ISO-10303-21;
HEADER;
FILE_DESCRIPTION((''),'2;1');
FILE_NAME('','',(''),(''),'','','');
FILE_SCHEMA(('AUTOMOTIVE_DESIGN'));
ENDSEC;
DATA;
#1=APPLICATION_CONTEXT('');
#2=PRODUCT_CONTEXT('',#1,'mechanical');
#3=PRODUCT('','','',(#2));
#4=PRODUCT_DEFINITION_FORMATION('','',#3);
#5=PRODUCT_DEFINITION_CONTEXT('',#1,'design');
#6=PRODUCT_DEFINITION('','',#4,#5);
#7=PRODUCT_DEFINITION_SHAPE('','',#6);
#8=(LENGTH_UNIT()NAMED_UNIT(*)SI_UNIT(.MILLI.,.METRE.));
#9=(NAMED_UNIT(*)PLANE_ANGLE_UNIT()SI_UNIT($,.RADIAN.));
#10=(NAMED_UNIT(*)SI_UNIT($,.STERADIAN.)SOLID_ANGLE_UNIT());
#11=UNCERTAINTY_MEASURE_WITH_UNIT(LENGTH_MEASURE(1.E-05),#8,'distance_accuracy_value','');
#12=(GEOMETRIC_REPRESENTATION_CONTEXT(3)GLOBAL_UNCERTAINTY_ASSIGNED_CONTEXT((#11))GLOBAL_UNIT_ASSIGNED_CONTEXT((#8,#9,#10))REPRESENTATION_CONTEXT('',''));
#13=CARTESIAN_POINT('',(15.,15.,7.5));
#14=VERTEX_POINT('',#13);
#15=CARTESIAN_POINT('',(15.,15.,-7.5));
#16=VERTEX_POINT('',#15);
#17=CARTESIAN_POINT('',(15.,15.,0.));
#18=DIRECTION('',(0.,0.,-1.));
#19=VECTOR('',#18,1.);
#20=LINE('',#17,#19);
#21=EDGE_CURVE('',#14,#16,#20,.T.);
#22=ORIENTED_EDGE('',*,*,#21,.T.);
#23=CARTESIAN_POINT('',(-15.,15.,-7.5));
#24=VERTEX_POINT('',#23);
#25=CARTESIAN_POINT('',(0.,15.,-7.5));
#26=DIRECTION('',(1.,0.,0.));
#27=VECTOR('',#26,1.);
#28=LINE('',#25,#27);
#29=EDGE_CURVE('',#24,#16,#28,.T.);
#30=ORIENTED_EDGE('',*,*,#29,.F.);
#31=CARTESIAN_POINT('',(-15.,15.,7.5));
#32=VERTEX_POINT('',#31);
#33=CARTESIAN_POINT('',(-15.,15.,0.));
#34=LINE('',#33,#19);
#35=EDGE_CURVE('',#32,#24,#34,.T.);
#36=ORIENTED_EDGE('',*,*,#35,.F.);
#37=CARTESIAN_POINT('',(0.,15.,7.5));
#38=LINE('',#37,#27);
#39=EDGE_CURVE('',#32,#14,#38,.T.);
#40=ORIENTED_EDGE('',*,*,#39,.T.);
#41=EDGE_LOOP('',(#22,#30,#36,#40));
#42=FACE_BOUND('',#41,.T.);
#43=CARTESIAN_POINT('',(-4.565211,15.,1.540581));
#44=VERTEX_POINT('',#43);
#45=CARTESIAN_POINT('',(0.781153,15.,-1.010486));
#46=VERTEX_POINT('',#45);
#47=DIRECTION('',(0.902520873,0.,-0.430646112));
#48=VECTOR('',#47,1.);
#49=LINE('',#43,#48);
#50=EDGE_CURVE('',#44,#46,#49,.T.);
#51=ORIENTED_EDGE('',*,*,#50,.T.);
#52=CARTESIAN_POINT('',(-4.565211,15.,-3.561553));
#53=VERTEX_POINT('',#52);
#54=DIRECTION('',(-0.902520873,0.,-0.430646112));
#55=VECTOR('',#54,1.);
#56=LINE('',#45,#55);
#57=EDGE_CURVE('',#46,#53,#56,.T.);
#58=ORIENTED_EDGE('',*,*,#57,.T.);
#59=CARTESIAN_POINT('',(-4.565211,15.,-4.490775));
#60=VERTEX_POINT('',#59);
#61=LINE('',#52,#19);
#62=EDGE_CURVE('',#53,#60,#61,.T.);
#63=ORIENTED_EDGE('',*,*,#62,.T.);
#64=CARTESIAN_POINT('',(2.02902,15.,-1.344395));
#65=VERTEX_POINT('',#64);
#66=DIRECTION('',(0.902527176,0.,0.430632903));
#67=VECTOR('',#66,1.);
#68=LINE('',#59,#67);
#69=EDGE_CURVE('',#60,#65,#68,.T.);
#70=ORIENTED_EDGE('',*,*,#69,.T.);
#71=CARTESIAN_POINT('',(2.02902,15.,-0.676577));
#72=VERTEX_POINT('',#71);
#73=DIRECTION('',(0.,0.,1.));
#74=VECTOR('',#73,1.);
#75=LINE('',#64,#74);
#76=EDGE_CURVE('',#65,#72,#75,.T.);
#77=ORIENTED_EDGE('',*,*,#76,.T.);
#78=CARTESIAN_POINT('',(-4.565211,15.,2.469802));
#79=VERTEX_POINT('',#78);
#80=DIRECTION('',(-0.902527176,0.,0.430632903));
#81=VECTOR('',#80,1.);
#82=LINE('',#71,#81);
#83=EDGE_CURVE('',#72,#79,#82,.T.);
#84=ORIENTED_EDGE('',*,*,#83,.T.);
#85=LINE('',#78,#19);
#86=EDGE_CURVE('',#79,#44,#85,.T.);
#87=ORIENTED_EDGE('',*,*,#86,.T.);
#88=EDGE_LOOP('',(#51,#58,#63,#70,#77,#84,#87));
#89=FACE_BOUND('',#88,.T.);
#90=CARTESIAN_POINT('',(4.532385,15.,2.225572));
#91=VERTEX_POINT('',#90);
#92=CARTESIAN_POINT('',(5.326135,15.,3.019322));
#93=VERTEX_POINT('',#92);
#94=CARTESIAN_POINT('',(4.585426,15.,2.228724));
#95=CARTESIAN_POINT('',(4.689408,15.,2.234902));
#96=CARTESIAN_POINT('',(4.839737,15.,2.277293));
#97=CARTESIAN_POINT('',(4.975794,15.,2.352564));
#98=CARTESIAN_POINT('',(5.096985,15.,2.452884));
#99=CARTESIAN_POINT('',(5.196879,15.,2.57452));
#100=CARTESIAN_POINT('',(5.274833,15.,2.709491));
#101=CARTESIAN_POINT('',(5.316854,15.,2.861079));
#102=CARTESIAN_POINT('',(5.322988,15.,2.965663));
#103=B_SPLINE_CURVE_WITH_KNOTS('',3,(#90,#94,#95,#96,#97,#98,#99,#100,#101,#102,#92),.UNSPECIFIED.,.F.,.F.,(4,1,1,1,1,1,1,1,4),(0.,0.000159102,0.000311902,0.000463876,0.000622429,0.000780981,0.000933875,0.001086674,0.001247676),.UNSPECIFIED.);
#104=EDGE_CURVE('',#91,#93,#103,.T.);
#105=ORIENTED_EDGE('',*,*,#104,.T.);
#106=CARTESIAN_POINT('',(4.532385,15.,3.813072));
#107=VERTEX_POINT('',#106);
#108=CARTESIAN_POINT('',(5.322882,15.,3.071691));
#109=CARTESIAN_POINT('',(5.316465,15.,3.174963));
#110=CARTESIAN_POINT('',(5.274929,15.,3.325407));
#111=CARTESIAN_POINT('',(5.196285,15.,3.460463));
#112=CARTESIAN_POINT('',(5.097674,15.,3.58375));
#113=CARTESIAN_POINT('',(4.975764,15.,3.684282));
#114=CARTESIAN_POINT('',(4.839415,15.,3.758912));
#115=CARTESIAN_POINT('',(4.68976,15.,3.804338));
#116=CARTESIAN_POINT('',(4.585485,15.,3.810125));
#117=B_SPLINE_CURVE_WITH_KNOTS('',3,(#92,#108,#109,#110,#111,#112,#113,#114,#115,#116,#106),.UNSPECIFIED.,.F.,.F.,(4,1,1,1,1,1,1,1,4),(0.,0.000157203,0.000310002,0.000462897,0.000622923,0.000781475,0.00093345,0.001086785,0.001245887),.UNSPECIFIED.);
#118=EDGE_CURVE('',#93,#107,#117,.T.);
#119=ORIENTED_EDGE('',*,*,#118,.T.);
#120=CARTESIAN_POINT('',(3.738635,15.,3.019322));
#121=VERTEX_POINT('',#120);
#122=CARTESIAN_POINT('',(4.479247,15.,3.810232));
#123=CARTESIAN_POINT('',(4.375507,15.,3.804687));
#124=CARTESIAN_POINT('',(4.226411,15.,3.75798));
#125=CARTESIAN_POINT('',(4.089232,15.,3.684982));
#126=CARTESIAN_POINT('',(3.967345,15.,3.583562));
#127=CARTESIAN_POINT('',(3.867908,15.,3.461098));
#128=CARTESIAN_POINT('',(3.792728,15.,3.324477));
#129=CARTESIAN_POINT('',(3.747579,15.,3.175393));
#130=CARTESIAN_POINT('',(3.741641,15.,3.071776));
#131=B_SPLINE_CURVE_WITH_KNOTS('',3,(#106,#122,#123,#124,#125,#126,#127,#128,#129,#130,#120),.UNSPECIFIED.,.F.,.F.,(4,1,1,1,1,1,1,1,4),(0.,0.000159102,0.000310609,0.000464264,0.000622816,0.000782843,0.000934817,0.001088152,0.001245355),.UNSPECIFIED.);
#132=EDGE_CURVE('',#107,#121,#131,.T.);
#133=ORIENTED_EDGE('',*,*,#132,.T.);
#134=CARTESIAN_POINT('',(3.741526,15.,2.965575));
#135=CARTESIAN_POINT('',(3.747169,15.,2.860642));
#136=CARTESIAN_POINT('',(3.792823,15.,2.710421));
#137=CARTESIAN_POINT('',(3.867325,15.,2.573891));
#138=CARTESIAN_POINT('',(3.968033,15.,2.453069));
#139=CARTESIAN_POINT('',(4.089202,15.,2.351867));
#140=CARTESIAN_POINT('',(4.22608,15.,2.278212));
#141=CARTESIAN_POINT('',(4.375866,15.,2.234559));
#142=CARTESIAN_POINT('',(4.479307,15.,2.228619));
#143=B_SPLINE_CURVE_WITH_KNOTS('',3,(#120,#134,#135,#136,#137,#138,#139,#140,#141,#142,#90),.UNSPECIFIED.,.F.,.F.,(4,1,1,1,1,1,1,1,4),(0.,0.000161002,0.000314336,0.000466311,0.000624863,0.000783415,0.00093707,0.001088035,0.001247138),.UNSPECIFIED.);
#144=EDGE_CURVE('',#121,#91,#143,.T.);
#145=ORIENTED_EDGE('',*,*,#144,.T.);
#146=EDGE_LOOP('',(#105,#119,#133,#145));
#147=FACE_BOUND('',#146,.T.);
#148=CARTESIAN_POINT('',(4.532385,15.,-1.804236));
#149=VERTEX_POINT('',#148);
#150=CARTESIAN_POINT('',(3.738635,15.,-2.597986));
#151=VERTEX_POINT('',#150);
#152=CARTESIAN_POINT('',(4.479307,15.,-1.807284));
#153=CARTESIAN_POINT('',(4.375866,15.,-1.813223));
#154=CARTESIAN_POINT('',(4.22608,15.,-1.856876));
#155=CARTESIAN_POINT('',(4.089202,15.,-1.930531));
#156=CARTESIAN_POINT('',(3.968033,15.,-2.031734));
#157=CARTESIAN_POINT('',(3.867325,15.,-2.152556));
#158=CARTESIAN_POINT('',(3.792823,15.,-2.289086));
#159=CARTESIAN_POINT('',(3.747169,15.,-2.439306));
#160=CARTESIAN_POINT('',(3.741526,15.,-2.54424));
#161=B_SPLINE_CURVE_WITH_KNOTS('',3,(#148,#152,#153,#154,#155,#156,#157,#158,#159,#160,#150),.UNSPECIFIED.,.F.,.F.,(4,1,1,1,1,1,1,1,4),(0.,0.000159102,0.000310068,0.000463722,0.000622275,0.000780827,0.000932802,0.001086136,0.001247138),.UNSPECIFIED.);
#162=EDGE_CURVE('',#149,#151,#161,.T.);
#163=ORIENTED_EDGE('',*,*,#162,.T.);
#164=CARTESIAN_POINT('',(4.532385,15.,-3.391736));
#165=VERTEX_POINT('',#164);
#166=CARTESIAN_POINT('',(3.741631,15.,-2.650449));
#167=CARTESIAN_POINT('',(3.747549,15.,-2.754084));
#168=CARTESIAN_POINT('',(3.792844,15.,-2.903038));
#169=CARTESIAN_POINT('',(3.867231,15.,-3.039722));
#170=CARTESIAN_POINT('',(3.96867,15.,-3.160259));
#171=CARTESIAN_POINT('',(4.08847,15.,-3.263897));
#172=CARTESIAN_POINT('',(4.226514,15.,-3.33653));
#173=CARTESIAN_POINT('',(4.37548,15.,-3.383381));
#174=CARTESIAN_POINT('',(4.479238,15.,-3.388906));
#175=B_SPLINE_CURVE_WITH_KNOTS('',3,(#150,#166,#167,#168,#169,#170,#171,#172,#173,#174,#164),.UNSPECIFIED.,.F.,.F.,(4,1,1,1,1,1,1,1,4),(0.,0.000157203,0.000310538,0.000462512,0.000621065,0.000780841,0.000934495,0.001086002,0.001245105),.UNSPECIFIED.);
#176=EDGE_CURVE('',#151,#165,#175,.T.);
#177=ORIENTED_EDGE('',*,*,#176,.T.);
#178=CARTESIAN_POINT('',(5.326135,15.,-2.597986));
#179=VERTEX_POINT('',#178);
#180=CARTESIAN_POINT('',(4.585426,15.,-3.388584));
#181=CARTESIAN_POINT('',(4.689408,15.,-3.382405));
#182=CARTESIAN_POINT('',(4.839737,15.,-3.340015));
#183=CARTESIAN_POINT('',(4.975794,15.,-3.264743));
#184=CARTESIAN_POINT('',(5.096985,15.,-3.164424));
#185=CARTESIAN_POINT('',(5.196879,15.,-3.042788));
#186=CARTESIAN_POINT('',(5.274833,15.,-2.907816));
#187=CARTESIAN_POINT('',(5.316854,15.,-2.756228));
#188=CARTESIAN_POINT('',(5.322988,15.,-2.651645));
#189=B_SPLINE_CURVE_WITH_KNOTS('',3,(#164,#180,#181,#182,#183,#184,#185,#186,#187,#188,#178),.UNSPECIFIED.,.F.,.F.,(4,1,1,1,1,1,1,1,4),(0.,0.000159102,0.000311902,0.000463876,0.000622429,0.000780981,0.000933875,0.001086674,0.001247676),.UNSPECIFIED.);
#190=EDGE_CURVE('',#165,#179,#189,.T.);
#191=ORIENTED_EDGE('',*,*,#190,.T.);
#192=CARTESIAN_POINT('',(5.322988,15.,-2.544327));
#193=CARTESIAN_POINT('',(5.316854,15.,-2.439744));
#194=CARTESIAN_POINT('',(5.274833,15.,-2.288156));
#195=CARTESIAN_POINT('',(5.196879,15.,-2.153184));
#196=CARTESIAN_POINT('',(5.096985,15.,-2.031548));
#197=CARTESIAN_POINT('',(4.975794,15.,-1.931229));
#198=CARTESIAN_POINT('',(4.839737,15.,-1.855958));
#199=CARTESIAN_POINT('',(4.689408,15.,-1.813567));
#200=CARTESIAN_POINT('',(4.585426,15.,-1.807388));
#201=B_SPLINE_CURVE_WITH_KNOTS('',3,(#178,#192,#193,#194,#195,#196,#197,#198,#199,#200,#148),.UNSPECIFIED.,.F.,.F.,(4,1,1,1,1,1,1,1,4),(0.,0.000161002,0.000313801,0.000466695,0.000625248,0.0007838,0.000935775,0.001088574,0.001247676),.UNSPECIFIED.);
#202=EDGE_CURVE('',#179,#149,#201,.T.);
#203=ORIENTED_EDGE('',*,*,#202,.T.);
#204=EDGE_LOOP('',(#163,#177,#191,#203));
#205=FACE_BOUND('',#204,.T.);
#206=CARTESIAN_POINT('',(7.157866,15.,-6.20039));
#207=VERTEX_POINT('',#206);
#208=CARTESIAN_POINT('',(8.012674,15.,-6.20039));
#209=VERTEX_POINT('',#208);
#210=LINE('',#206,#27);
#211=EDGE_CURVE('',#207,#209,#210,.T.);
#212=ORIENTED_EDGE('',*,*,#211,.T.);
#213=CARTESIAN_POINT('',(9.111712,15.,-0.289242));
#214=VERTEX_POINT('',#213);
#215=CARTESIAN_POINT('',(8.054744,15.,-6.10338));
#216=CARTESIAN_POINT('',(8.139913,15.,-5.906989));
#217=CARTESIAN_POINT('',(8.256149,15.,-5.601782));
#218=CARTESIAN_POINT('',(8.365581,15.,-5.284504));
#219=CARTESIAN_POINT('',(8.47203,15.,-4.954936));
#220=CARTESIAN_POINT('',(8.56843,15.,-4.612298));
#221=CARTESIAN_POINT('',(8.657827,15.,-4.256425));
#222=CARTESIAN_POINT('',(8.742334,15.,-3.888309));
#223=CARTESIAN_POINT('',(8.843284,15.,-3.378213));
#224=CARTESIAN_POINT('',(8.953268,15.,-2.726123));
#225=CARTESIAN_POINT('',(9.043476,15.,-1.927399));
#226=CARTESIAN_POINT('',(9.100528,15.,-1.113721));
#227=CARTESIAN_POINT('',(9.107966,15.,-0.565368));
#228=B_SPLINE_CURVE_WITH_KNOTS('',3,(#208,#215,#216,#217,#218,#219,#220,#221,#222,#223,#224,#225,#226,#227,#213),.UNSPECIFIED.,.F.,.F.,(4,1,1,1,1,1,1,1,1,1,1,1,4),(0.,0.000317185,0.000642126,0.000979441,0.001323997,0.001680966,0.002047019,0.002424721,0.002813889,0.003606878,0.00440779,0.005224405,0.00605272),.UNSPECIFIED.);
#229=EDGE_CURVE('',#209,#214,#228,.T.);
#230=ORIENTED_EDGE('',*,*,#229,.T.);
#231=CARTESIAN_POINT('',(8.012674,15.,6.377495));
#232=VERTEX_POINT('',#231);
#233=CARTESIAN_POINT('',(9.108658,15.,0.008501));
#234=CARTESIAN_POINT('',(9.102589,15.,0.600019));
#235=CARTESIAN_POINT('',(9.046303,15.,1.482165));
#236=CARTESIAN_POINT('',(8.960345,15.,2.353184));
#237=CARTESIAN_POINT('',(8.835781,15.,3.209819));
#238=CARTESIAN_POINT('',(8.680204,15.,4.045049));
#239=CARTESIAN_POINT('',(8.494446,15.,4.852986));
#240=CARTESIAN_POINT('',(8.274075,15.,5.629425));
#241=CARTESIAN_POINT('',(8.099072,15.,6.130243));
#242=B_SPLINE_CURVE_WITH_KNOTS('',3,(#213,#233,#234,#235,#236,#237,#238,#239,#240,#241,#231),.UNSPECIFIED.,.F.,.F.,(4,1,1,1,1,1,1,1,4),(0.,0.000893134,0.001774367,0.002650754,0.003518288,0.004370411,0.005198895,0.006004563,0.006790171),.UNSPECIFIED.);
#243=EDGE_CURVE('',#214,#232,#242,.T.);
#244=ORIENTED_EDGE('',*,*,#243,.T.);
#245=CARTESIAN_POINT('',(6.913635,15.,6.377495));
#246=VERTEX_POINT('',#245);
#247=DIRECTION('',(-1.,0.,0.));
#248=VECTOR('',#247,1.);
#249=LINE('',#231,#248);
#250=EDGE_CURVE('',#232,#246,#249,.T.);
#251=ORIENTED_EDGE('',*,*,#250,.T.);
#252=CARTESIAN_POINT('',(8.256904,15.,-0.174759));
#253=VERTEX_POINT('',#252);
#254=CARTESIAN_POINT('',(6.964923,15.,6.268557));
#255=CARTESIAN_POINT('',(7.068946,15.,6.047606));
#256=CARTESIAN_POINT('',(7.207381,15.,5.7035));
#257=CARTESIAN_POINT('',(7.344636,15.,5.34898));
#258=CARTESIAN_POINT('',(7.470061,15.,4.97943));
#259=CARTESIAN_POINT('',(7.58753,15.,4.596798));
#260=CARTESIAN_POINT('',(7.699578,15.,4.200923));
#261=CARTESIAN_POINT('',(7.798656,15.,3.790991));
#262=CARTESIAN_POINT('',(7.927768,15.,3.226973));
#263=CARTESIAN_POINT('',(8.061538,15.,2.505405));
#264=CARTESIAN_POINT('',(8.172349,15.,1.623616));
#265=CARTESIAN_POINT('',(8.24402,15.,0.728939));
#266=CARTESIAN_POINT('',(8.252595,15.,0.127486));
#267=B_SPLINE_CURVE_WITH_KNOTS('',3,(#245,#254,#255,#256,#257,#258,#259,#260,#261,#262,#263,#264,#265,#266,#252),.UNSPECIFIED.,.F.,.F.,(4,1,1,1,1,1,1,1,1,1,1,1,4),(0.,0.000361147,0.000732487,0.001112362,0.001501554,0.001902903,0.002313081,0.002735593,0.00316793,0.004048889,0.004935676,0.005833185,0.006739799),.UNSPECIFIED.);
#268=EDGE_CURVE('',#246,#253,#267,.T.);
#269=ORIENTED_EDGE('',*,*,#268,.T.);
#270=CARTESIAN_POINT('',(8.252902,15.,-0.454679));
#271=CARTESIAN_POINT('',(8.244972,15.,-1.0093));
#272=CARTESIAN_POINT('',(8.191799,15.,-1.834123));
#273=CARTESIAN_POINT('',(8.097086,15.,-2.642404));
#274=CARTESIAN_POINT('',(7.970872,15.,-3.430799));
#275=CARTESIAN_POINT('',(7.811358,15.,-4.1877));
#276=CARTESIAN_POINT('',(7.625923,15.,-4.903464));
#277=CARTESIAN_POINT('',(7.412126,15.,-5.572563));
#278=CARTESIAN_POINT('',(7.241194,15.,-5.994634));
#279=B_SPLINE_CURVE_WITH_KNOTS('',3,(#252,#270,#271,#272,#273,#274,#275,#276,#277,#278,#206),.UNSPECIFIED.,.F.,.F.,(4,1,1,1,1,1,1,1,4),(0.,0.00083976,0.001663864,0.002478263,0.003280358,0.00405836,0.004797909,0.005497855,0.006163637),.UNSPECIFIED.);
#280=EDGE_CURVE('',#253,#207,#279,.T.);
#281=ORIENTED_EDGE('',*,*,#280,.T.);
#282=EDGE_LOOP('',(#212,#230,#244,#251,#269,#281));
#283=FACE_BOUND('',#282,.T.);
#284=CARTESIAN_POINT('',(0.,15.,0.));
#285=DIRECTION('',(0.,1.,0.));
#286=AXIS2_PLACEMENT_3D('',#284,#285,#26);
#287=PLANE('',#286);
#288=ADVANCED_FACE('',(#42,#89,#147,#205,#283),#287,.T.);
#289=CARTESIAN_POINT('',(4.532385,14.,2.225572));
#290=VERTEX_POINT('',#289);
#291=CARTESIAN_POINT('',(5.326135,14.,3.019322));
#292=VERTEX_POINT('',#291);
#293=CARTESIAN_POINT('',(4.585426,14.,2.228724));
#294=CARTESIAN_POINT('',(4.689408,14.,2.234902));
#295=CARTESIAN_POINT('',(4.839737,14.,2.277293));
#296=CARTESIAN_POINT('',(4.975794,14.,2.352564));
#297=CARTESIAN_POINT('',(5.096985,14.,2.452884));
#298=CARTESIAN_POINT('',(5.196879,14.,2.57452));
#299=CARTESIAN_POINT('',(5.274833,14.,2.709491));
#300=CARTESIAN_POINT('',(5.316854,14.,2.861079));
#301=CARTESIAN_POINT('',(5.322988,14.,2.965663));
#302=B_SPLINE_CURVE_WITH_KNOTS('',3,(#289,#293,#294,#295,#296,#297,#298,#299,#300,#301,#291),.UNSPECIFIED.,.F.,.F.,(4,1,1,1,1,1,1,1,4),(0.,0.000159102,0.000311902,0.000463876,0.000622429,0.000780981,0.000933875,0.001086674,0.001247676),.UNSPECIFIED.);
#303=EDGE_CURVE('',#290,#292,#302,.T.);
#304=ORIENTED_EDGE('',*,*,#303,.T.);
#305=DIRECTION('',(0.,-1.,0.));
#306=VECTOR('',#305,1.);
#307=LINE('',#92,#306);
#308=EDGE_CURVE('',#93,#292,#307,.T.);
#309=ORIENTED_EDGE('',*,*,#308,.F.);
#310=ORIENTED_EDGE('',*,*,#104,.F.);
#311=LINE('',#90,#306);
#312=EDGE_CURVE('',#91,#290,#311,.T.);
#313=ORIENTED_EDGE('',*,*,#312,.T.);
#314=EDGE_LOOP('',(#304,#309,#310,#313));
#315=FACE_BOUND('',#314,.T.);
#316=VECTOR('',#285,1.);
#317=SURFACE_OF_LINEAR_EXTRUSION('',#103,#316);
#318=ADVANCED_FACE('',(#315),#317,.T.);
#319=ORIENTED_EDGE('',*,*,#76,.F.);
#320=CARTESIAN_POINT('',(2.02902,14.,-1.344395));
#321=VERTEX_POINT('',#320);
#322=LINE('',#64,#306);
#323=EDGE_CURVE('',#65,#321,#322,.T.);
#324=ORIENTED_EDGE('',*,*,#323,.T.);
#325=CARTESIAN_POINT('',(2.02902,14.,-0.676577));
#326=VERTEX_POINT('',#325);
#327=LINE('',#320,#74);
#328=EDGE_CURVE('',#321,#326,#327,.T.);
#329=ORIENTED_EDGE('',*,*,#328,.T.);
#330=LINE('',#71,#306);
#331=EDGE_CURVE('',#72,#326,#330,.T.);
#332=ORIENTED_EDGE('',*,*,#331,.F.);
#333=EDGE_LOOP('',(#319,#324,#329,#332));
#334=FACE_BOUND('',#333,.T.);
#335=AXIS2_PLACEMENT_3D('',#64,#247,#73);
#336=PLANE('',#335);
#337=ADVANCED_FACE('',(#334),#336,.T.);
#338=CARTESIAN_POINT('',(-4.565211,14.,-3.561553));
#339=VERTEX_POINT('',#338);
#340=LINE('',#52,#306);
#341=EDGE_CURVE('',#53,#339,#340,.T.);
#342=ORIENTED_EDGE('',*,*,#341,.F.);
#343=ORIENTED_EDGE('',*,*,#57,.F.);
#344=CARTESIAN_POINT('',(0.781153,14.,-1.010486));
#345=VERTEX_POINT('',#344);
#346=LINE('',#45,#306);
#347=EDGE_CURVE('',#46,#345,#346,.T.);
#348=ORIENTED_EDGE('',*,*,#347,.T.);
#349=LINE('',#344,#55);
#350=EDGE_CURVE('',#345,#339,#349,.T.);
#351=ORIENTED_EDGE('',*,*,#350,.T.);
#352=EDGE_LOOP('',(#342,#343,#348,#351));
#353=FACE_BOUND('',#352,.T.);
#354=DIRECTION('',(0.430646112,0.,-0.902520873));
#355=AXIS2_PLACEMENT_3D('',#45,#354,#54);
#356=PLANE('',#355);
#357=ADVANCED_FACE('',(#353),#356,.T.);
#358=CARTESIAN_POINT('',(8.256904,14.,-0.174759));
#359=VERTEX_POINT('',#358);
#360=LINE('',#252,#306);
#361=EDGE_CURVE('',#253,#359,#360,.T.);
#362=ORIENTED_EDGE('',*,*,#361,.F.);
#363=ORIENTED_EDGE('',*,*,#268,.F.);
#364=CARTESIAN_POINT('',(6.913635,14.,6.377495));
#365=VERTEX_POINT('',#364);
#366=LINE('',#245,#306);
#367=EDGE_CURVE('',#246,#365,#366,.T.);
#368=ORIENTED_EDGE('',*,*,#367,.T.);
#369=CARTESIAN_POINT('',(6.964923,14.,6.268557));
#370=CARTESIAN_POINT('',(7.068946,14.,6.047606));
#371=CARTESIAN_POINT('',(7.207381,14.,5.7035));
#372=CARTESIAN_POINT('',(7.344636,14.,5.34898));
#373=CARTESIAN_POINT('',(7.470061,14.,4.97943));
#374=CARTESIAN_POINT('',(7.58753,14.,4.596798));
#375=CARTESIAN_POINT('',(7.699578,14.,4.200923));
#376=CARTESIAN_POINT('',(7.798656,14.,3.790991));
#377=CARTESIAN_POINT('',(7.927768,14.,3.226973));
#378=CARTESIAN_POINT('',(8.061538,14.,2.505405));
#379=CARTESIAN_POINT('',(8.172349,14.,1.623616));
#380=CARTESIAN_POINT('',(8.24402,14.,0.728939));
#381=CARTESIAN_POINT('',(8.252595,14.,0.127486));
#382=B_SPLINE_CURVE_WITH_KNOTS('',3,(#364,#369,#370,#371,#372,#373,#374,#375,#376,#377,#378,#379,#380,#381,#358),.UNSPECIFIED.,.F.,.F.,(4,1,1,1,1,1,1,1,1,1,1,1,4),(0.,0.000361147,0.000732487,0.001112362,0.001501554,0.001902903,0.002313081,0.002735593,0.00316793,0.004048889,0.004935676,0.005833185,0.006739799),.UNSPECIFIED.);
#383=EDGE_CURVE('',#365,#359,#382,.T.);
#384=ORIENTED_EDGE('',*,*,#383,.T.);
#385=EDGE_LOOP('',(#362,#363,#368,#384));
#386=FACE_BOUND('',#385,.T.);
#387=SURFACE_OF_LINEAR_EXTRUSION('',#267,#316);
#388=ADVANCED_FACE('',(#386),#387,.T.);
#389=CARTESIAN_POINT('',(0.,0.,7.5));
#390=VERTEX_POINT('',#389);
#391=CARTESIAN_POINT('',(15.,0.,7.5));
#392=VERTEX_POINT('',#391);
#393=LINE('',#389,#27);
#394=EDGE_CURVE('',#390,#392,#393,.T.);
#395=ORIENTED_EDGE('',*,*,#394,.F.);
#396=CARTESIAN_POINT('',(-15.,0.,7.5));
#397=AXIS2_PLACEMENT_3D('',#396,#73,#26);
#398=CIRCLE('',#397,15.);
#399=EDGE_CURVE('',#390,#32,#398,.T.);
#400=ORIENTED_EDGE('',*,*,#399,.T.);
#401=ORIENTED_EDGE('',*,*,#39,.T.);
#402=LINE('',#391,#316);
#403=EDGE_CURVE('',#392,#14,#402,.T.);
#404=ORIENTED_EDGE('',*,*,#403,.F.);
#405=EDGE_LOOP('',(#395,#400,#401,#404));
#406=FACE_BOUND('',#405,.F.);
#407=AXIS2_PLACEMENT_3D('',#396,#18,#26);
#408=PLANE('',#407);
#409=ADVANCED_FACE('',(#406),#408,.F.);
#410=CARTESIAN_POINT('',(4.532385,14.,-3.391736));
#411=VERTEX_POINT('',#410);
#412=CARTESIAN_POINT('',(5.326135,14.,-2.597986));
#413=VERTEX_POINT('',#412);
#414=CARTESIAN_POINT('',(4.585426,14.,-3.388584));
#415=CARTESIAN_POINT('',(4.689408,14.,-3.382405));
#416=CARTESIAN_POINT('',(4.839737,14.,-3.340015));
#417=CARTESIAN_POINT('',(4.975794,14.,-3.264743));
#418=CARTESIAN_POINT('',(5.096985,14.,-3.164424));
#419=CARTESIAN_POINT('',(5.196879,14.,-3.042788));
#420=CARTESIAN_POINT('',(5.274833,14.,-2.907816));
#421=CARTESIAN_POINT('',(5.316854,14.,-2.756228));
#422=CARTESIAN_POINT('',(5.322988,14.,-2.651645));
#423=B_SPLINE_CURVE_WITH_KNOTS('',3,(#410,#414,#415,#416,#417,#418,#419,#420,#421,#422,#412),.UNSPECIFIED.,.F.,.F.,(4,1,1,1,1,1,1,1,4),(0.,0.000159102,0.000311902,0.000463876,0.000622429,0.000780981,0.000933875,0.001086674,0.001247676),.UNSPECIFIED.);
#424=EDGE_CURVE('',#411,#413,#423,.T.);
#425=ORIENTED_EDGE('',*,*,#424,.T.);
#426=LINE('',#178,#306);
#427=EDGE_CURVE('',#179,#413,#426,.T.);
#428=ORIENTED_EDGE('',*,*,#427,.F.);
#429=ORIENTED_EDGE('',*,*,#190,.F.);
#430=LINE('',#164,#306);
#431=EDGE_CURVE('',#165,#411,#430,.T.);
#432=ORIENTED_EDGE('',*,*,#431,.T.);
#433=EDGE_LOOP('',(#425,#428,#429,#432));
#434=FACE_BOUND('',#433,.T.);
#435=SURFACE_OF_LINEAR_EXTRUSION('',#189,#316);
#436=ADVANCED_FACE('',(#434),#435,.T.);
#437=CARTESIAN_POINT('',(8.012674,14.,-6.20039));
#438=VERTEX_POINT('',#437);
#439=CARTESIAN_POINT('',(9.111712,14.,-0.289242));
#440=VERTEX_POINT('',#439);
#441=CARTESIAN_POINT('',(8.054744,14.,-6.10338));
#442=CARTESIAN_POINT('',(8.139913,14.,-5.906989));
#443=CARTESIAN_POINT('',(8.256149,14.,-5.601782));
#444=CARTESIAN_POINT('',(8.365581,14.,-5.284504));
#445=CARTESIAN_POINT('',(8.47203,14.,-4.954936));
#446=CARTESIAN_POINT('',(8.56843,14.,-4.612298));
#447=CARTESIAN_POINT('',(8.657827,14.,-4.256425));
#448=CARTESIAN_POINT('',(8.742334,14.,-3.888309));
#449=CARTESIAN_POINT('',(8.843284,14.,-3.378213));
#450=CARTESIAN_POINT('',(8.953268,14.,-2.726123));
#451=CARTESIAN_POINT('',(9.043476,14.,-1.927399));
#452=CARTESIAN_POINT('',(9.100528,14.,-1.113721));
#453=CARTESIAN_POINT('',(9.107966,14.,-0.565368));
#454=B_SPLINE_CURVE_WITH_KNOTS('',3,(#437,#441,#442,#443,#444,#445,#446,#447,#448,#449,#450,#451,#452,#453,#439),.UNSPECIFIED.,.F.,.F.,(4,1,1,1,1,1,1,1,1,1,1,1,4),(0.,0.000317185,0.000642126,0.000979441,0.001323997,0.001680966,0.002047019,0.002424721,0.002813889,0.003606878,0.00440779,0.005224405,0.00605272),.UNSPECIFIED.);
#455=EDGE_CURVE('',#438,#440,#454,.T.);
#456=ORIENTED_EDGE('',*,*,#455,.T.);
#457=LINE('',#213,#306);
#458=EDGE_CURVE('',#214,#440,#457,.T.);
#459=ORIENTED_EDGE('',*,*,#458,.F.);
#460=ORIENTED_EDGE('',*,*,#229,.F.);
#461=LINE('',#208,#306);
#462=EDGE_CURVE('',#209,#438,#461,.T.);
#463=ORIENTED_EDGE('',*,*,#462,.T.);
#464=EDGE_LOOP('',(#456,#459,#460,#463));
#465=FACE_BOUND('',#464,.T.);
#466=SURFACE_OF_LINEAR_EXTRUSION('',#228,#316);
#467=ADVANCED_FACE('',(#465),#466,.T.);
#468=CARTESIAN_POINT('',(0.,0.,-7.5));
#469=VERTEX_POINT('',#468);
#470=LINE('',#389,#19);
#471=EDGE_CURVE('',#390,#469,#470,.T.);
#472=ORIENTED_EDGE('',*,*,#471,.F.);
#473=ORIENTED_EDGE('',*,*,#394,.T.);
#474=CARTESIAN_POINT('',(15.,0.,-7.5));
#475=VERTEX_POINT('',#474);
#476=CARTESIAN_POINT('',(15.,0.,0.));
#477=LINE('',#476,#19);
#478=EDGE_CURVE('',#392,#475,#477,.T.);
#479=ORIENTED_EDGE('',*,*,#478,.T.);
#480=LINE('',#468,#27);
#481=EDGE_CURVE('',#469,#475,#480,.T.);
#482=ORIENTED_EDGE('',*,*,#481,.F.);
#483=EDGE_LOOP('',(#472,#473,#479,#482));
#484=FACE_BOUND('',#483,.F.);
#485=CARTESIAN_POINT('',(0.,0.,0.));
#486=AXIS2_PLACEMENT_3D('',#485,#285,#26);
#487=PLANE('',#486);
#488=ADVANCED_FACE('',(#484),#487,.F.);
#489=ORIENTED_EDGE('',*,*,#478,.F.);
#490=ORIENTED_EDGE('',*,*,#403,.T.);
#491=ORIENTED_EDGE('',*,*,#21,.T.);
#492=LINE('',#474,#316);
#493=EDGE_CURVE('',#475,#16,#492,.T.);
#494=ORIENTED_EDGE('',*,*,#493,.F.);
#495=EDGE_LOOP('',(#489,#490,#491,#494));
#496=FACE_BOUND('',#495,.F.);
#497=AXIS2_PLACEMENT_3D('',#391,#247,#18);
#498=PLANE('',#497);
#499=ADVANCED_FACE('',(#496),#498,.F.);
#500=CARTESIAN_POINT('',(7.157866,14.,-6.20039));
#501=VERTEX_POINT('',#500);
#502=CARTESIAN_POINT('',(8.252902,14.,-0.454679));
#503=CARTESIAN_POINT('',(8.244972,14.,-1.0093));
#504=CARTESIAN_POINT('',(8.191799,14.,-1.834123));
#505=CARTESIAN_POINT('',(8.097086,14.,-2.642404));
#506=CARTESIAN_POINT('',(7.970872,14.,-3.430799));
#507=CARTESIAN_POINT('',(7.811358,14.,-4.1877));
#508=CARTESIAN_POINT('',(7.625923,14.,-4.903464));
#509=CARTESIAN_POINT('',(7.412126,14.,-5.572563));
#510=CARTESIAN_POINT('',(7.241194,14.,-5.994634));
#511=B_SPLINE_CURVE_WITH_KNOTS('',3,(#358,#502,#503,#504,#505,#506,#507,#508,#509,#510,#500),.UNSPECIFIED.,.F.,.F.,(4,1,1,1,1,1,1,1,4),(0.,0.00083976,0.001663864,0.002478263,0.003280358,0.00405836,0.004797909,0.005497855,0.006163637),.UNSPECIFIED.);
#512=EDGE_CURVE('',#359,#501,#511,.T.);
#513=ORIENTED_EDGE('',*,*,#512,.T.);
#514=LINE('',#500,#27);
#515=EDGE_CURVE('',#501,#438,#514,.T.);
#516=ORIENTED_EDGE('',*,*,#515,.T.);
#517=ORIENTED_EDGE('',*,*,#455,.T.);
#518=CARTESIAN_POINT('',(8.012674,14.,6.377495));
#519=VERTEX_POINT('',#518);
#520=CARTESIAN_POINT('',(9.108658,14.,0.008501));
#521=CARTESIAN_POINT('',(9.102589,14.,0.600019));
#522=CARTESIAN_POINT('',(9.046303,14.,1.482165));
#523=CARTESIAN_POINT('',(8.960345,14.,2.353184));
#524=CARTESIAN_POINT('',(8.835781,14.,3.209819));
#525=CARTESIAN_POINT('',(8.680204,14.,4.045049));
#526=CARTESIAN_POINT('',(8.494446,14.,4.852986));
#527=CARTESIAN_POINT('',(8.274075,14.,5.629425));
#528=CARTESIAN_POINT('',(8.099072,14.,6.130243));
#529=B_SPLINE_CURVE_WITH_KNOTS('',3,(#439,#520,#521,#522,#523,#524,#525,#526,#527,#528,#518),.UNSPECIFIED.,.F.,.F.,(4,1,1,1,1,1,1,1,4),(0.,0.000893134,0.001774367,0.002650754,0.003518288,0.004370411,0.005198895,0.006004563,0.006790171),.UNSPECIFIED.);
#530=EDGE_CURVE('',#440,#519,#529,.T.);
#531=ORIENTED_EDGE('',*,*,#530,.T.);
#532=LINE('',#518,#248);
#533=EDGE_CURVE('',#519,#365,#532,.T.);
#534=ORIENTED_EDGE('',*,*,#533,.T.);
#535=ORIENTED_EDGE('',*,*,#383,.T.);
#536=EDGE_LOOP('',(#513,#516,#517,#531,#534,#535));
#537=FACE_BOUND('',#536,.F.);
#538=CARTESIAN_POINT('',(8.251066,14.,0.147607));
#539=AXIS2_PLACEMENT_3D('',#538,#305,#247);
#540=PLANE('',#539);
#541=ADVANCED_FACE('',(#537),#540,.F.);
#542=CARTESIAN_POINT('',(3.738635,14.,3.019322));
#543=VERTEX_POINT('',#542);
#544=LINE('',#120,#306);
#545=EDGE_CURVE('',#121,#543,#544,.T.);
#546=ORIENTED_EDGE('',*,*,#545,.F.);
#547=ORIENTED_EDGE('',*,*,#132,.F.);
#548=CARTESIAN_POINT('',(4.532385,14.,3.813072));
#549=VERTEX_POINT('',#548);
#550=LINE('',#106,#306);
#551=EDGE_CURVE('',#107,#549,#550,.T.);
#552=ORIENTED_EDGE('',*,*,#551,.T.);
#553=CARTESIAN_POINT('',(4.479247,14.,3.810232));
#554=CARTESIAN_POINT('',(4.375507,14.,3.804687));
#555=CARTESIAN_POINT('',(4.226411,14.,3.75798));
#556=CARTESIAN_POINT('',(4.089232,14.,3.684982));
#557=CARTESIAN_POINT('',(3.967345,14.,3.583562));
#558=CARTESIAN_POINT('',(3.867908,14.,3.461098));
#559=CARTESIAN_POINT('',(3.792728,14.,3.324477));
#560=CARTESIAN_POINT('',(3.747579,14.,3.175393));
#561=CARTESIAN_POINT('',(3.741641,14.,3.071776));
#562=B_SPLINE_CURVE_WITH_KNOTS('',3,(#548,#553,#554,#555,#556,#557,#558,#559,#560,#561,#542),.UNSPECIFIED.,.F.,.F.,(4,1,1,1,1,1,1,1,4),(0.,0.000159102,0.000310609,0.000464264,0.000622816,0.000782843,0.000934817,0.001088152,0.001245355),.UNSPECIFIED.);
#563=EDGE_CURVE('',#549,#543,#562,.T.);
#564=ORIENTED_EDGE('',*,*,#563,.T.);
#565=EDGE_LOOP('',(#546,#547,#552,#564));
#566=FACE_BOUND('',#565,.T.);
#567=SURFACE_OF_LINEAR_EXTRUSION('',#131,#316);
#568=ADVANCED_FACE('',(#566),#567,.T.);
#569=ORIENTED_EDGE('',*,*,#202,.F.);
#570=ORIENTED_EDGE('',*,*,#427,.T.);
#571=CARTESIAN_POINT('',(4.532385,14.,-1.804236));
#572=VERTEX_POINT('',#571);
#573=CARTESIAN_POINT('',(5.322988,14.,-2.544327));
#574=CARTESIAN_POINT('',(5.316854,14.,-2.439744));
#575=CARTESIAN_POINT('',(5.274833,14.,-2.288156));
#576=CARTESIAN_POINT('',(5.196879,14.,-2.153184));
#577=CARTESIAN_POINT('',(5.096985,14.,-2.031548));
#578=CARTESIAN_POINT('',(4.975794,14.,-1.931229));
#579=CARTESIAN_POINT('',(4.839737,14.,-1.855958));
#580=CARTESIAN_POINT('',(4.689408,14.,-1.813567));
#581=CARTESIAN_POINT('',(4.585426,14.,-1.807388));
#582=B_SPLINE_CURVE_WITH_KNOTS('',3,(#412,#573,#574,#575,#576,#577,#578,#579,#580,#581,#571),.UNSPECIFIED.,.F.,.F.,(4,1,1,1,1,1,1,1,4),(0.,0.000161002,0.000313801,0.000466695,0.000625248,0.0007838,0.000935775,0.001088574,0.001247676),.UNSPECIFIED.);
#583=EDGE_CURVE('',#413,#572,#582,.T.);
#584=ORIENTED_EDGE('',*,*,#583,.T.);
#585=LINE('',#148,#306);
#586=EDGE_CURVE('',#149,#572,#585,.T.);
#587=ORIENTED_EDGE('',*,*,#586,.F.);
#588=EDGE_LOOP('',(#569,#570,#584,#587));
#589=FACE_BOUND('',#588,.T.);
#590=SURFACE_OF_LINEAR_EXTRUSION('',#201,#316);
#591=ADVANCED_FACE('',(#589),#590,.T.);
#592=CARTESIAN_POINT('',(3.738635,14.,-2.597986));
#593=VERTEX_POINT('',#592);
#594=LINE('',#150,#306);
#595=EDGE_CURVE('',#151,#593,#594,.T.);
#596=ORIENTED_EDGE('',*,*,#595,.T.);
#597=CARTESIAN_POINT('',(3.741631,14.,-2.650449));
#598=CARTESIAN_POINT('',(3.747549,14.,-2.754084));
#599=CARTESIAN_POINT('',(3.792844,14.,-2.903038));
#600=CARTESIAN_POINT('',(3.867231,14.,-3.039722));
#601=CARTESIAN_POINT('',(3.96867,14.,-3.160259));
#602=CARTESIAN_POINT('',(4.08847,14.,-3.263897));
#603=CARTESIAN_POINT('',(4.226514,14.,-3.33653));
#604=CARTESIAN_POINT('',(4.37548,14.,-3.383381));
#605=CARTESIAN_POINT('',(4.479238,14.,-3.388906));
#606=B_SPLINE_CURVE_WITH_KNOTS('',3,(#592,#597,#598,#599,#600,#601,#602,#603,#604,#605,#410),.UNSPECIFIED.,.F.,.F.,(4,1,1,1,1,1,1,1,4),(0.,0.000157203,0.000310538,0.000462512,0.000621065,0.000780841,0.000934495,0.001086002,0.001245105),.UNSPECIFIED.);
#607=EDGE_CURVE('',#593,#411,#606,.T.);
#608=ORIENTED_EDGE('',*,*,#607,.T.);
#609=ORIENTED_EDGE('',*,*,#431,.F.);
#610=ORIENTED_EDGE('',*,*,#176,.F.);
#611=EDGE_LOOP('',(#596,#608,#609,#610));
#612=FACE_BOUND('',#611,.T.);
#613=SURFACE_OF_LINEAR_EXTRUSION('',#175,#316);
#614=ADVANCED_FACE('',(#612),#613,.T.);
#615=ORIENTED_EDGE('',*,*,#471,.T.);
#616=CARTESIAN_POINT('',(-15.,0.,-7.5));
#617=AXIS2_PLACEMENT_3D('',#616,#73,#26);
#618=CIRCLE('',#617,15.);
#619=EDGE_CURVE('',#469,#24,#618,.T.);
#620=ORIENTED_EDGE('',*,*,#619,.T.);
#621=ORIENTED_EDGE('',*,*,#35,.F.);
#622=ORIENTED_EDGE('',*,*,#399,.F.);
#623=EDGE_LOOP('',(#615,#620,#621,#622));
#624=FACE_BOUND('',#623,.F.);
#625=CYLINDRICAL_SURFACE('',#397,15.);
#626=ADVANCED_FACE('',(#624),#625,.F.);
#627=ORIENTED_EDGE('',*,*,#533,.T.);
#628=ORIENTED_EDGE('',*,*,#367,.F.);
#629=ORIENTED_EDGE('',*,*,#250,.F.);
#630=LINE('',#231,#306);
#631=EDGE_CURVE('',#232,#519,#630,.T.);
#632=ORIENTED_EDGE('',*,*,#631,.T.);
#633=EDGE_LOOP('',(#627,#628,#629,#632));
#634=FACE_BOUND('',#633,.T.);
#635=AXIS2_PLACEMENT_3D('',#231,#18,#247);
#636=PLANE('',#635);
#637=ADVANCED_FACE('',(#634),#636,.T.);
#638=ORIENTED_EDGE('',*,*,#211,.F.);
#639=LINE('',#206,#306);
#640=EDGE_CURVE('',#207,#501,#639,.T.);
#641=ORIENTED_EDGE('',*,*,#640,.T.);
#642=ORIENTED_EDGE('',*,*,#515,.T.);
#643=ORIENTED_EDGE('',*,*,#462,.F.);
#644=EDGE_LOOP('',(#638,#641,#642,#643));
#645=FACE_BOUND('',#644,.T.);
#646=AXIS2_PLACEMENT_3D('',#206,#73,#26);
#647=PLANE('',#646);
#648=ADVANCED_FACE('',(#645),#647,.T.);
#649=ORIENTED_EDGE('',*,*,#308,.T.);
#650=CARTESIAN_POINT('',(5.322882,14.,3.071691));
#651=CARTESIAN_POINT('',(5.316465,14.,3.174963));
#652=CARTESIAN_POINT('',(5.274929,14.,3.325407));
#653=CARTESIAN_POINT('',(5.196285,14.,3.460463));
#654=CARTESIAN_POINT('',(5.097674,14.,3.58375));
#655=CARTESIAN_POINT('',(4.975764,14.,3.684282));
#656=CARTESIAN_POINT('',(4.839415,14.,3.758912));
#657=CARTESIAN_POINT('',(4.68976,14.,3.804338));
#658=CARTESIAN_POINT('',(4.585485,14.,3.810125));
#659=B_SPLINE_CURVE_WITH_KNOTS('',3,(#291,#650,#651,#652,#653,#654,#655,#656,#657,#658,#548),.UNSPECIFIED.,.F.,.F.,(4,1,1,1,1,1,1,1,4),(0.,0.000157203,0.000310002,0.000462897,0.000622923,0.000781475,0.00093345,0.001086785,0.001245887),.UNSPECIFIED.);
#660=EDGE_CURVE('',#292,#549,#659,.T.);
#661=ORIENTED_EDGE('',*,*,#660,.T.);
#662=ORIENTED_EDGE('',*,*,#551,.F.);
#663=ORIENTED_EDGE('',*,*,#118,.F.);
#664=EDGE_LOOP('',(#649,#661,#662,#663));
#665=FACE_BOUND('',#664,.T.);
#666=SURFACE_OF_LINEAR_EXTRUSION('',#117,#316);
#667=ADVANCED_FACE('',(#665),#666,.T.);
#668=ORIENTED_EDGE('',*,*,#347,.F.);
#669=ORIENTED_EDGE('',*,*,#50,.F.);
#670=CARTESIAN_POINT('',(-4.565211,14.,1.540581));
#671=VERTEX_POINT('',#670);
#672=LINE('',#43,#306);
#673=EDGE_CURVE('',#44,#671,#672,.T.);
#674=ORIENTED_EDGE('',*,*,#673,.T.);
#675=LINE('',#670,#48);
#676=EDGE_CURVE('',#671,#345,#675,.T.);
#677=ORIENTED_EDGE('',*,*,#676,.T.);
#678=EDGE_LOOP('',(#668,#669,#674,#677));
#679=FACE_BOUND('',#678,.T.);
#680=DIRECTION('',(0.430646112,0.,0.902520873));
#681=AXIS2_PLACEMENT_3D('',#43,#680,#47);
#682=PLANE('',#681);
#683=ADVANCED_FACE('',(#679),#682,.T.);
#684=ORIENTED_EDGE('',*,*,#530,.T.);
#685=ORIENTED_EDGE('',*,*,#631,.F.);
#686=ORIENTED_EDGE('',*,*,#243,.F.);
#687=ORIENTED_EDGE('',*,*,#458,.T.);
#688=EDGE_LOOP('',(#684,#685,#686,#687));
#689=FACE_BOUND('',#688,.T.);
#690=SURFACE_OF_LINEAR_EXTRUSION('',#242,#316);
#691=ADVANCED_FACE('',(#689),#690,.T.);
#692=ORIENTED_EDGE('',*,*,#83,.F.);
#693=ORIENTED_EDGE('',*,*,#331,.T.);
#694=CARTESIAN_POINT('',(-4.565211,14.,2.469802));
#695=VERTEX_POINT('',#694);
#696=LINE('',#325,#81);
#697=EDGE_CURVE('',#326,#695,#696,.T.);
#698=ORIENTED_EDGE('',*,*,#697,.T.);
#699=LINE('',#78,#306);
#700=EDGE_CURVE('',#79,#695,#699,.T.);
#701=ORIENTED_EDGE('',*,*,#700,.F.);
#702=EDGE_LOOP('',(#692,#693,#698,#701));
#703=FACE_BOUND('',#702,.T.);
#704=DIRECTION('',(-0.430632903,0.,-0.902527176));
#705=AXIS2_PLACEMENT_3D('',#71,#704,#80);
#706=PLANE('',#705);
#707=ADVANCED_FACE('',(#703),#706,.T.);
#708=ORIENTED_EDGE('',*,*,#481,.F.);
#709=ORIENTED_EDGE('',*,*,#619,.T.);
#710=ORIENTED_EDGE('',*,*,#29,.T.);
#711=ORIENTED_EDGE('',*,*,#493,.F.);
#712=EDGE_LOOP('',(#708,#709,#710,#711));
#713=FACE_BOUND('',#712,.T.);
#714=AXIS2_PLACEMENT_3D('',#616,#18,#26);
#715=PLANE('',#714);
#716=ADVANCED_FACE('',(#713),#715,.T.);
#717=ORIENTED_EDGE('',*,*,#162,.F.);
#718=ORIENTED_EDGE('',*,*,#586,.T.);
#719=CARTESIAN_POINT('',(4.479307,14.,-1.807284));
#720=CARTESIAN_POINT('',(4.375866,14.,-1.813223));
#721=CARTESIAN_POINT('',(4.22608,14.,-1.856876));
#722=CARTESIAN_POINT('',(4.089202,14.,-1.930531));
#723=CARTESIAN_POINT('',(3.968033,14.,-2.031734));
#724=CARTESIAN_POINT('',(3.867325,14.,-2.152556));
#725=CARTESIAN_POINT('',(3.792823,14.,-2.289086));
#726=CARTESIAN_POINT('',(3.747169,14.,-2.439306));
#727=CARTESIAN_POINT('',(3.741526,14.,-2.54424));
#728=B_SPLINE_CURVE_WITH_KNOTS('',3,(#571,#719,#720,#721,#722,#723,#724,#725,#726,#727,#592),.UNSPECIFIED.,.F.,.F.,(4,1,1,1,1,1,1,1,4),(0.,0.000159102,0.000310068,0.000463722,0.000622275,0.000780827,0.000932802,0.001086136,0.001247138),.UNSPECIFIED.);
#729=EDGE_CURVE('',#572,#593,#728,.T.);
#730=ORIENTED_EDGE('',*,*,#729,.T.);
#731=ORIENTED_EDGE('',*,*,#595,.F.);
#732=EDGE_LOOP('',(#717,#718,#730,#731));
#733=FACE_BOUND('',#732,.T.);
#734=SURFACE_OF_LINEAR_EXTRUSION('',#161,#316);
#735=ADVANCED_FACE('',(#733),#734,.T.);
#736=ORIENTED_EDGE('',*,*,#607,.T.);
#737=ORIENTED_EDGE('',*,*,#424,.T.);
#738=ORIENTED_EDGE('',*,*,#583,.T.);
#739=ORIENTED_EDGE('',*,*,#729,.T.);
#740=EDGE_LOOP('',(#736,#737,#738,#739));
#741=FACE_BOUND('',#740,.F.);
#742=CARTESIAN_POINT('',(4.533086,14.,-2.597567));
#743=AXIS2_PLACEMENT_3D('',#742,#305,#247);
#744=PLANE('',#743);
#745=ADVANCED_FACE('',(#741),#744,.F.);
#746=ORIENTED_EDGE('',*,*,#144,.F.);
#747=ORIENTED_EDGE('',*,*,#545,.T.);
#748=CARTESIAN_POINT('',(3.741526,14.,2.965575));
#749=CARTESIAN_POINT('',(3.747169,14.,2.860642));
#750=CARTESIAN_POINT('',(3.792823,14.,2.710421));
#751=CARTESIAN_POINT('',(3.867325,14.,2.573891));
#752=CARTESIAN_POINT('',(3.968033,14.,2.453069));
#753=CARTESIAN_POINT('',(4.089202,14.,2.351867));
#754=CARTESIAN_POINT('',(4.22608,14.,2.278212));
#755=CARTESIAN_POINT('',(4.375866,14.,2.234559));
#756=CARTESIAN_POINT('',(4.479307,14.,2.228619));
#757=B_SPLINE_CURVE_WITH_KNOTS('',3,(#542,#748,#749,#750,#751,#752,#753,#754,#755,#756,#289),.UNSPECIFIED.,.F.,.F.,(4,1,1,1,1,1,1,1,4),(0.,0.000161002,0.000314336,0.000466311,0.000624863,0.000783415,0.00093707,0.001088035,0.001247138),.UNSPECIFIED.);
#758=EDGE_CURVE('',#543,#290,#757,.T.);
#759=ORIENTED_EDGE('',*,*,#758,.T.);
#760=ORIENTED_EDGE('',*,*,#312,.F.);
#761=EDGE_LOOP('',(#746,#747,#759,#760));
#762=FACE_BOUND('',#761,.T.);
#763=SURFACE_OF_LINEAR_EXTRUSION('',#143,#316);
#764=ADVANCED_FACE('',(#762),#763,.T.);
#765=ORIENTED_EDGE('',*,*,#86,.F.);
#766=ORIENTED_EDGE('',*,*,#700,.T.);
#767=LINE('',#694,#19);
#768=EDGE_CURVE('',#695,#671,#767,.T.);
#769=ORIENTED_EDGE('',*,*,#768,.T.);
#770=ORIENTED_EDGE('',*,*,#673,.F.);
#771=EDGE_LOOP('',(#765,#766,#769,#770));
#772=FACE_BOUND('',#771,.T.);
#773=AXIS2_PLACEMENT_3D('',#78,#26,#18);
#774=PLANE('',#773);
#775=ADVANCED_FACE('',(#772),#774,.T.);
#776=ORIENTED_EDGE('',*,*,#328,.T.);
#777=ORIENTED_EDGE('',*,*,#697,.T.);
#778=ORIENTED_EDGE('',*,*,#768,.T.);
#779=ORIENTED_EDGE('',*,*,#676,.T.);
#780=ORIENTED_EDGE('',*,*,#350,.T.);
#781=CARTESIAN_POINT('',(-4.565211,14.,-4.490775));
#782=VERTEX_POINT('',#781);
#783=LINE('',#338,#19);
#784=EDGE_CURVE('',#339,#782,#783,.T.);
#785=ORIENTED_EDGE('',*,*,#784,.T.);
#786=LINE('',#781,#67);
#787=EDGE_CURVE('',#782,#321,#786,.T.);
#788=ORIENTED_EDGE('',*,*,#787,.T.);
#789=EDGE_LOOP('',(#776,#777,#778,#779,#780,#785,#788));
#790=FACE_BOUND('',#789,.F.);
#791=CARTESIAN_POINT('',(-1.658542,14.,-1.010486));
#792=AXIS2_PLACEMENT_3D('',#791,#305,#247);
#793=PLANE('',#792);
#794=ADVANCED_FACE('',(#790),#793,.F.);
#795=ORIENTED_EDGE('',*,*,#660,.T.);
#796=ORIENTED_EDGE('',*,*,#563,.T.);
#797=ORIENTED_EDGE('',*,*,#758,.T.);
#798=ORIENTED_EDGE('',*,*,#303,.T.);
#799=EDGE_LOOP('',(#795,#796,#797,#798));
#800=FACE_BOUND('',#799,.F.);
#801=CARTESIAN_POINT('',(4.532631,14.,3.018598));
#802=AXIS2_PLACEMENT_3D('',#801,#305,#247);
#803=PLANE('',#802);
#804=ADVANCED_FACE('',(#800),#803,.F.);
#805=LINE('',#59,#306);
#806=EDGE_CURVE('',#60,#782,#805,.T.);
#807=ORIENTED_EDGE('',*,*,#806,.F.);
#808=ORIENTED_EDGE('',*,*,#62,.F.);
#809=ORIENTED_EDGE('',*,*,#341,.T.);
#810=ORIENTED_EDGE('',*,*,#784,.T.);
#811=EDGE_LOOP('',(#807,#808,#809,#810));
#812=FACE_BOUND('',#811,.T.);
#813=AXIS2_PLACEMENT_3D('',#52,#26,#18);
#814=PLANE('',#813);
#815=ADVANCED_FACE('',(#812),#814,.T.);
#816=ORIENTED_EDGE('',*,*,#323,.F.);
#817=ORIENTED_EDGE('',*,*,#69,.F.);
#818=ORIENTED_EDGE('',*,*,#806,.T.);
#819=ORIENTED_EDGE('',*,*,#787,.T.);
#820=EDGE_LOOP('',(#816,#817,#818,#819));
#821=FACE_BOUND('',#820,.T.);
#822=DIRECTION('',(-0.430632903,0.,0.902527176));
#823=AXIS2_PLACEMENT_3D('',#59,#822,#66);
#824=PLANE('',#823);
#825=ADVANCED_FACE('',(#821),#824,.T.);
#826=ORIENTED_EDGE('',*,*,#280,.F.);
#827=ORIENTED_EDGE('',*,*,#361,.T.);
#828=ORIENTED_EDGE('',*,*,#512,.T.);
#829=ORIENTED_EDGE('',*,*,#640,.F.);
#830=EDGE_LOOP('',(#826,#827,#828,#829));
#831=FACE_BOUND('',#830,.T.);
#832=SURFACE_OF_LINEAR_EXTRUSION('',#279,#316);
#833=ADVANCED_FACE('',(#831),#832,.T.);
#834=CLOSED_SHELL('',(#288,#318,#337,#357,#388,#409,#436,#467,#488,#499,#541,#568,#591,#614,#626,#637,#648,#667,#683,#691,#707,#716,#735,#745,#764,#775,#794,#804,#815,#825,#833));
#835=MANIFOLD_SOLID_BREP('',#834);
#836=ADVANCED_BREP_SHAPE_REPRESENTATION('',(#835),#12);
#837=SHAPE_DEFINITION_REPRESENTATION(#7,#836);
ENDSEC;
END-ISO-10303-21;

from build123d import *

# Parameters (mm, degrees)
SKETCH1_W           = 30
SKETCH1_H           = 15
BOSS_EXTRUDE1_DEPTH = 15
SKETCH2_R           = 15
CUT_EXTRUDE1_DEPTH  = 15
CUT_EXTRUDE2_DEPTH  = 1


with BuildPart() as part:
    # Sketch1 → Boss-Extrude1 (new body)
    with BuildSketch(Plane(origin=(0, 0, 0), x_dir=(1, 0, 0), z_dir=(0, 1, 0))):
        Rectangle(SKETCH1_W, SKETCH1_H)
    extrude(amount=BOSS_EXTRUDE1_DEPTH)

    # Sketch2 → Cut-Extrude1 (cut)
    with BuildSketch(Plane.XY.offset(7.5)):
        with Locations((-15, 0)):
            Circle(SKETCH2_R)
    extrude(amount=-CUT_EXTRUDE1_DEPTH, mode=Mode.SUBTRACT)

    # Sketch3 → Cut-Extrude2 (cut)
    with BuildSketch(Plane(origin=(0, 15, 0), x_dir=(1, 0, 0), z_dir=(0, 1, 0))):
        Polygon((-4.565210898, -1.540580661), (0.781153285, 1.010486046), (-4.565210898, 3.561552753), (-4.565210898, 4.490774507), (2.029019871, 1.344395301), (2.029019871, 0.676576791), (-4.565210898, -2.469802416), align=None)
        with BuildLine():
            add(Edge.make_bspline(
                [(4.532385256, 3.391736046), (4.585426476, 3.388584178), (4.689407588, 3.382405309), (4.83973693, 3.340014504), (4.975793825, 3.264743436), (5.096985148, 3.164424017), (5.196879202, 3.042787963), (5.274832761, 2.90781624), (5.316854299, 2.756228334), (5.322988159, 2.651644719), (5.326135256, 2.597986046)],
                knots=[0, 0, 0, 0, 0.000159102, 0.000311902, 0.000463876, 0.000622429, 0.000780981, 0.000933875, 0.001086674, 0.001247676, 0.001247676, 0.001247676, 0.001247676], degree=3))
            add(Edge.make_bspline(
                [(5.326135256, 2.597986046), (5.322988159, 2.544327373), (5.316854299, 2.439743758), (5.274832761, 2.288155852), (5.196879202, 2.153184129), (5.096985148, 2.031548075), (4.975793825, 1.931228656), (4.83973693, 1.855957587), (4.689407588, 1.813566782), (4.585426476, 1.807387914), (4.532385256, 1.804236046)],
                knots=[0, 0, 0, 0, 0.000161002, 0.000313801, 0.000466695, 0.000625248, 0.0007838, 0.000935775, 0.001088574, 0.001247676, 0.001247676, 0.001247676, 0.001247676], degree=3))
            add(Edge.make_bspline(
                [(4.532385256, 1.804236046), (4.479307324, 1.807283761), (4.375865992, 1.813223325), (4.226079814, 1.856876161), (4.089202284, 1.930531062), (3.968032593, 2.03173365), (3.867325054, 2.152555772), (3.792822649, 2.289085596), (3.747168888, 2.439306024), (3.741525683, 2.54423952), (3.738635256, 2.597986046)],
                knots=[0, 0, 0, 0, 0.000159102, 0.000310068, 0.000463722, 0.000622275, 0.000780827, 0.000932802, 0.001086136, 0.001247138, 0.001247138, 0.001247138, 0.001247138], degree=3))
            add(Edge.make_bspline(
                [(3.738635256, 2.597986046), (3.741631063, 2.650449237), (3.747548948, 2.754084477), (3.792844046, 2.903037506), (3.867230597, 3.039722332), (3.96867028, 3.160258542), (4.088470126, 3.2638968), (4.226513734, 3.336529736), (4.375479803, 3.383381479), (4.479237718, 3.388906159), (4.532385256, 3.391736046)],
                knots=[0, 0, 0, 0, 0.000157203, 0.000310538, 0.000462512, 0.000621065, 0.000780841, 0.000934495, 0.001086002, 0.001245105, 0.001245105, 0.001245105, 0.001245105], degree=3))
        make_face()
        with BuildLine():
            add(Edge.make_bspline(
                [(4.532385256, -2.225571646), (4.585426476, -2.228723514), (4.689407588, -2.234902383), (4.83973693, -2.277293188), (4.975793825, -2.352564257), (5.096985148, -2.452883675), (5.196879202, -2.57451973), (5.274832761, -2.709491453), (5.316854299, -2.861079358), (5.322988159, -2.965662974), (5.326135256, -3.019321646)],
                knots=[0, 0, 0, 0, 0.000159102, 0.000311902, 0.000463876, 0.000622429, 0.000780981, 0.000933875, 0.001086674, 0.001247676, 0.001247676, 0.001247676, 0.001247676], degree=3))
            add(Edge.make_bspline(
                [(5.326135256, -3.019321646), (5.322881514, -3.071690994), (5.316465182, -3.174962578), (5.274929085, -3.32540713), (5.196285105, -3.460463205), (5.09767416, -3.583749738), (4.975763866, -3.684281679), (4.839415269, -3.758912353), (4.689760488, -3.804338384), (4.585485351, -3.81012495), (4.532385256, -3.813071646)],
                knots=[0, 0, 0, 0, 0.000157203, 0.000310002, 0.000462897, 0.000622923, 0.000781475, 0.00093345, 0.001086785, 0.001245887, 0.001245887, 0.001245887, 0.001245887], degree=3))
            add(Edge.make_bspline(
                [(4.532385256, -3.813071646), (4.479246898, -3.810231571), (4.375506905, -3.804687001), (4.226410735, -3.757979649), (4.08923177, -3.684981518), (3.967345212, -3.583562286), (3.867908372, -3.46109761), (3.792727865, -3.324477007), (3.74757896, -3.175393238), (3.741641149, -3.071775817), (3.738635256, -3.019321646)],
                knots=[0, 0, 0, 0, 0.000159102, 0.000310609, 0.000464264, 0.000622816, 0.000782843, 0.000934817, 0.001088152, 0.001245355, 0.001245355, 0.001245355, 0.001245355], degree=3))
            add(Edge.make_bspline(
                [(3.738635256, -3.019321646), (3.741525683, -2.96557512), (3.747168888, -2.860641624), (3.792822649, -2.710421196), (3.867325054, -2.573891372), (3.968032593, -2.453069251), (4.089202284, -2.351866663), (4.226079814, -2.278211761), (4.375865992, -2.234558925), (4.479307324, -2.228619362), (4.532385256, -2.225571646)],
                knots=[0, 0, 0, 0, 0.000161002, 0.000314336, 0.000466311, 0.000624863, 0.000783415, 0.00093707, 0.001088035, 0.001247138, 0.001247138, 0.001247138, 0.001247138], degree=3))
        make_face()
        with BuildLine():
            Line((8.012673717, -6.377494723), (6.913635256, -6.377494723))
            add(Edge.make_bspline(
                [(6.913635256, -6.377494723), (6.964923037, -6.268556916), (7.068946293, -6.047606327), (7.207381282, -5.703499581), (7.344635711, -5.34898027), (7.470061478, -4.979429934), (7.587529774, -4.596798161), (7.699577806, -4.200923285), (7.798655827, -3.790991301), (7.927768443, -3.226973351), (8.061537871, -2.505405036), (8.172348909, -1.623616401), (8.244020266, -0.728938898), (8.252595321, -0.127485519), (8.256904487, 0.174758882)],
                knots=[0, 0, 0, 0, 0.000361147, 0.000732487, 0.001112362, 0.001501554, 0.001902903, 0.002313081, 0.002735593, 0.00316793, 0.004048889, 0.004935676, 0.005833185, 0.006739799, 0.006739799, 0.006739799, 0.006739799], degree=3))
            add(Edge.make_bspline(
                [(8.256904487, 0.174758882), (8.252902226, 0.454678656), (8.244972319, 1.009299641), (8.191798742, 1.834123368), (8.097085547, 2.6424037), (7.970871979, 3.430798715), (7.811358038, 4.187699516), (7.62592252, 4.903463701), (7.412126188, 5.57256258), (7.24119411, 5.994633525), (7.157866025, 6.200389892)],
                knots=[0, 0, 0, 0, 0.00083976, 0.001663864, 0.002478263, 0.003280358, 0.00405836, 0.004797909, 0.005497855, 0.006163637, 0.006163637, 0.006163637, 0.006163637], degree=3))
            Line((7.157866025, 6.200389892), (8.012673717, 6.200389892))
            add(Edge.make_bspline(
                [(8.012673717, 6.200389892), (8.054744003, 6.10338045), (8.139913324, 5.90698938), (8.256148684, 5.601782231), (8.365580554, 5.284503822), (8.472030365, 4.95493584), (8.568429545, 4.612298427), (8.65782742, 4.256424857), (8.742333903, 3.88830928), (8.843284081, 3.378212649), (8.953267541, 2.726122679), (9.043476277, 1.92739898), (9.100527601, 1.113721058), (9.107966351, 0.565368415), (9.111712179, 0.289242056)],
                knots=[0, 0, 0, 0, 0.000317185, 0.000642126, 0.000979441, 0.001323997, 0.001680966, 0.002047019, 0.002424721, 0.002813889, 0.003606878, 0.00440779, 0.005224405, 0.00605272, 0.00605272, 0.00605272, 0.00605272], degree=3))
            add(Edge.make_bspline(
                [(9.111712179, 0.289242056), (9.108657505, -0.008500857), (9.10258886, -0.600019428), (9.046302547, -1.482164848), (8.960344753, -2.353183983), (8.835781357, -3.209818768), (8.680204435, -4.045048948), (8.494446198, -4.852986274), (8.274075254, -5.629424741), (8.099072178, -6.130242561), (8.012673717, -6.377494723)],
                knots=[0, 0, 0, 0, 0.000893134, 0.001774367, 0.002650754, 0.003518288, 0.004370411, 0.005198895, 0.006004563, 0.006790171, 0.006790171, 0.006790171, 0.006790171], degree=3))
        make_face()
    extrude(amount=-CUT_EXTRUDE2_DEPTH, mode=Mode.SUBTRACT)


solid = part.part
